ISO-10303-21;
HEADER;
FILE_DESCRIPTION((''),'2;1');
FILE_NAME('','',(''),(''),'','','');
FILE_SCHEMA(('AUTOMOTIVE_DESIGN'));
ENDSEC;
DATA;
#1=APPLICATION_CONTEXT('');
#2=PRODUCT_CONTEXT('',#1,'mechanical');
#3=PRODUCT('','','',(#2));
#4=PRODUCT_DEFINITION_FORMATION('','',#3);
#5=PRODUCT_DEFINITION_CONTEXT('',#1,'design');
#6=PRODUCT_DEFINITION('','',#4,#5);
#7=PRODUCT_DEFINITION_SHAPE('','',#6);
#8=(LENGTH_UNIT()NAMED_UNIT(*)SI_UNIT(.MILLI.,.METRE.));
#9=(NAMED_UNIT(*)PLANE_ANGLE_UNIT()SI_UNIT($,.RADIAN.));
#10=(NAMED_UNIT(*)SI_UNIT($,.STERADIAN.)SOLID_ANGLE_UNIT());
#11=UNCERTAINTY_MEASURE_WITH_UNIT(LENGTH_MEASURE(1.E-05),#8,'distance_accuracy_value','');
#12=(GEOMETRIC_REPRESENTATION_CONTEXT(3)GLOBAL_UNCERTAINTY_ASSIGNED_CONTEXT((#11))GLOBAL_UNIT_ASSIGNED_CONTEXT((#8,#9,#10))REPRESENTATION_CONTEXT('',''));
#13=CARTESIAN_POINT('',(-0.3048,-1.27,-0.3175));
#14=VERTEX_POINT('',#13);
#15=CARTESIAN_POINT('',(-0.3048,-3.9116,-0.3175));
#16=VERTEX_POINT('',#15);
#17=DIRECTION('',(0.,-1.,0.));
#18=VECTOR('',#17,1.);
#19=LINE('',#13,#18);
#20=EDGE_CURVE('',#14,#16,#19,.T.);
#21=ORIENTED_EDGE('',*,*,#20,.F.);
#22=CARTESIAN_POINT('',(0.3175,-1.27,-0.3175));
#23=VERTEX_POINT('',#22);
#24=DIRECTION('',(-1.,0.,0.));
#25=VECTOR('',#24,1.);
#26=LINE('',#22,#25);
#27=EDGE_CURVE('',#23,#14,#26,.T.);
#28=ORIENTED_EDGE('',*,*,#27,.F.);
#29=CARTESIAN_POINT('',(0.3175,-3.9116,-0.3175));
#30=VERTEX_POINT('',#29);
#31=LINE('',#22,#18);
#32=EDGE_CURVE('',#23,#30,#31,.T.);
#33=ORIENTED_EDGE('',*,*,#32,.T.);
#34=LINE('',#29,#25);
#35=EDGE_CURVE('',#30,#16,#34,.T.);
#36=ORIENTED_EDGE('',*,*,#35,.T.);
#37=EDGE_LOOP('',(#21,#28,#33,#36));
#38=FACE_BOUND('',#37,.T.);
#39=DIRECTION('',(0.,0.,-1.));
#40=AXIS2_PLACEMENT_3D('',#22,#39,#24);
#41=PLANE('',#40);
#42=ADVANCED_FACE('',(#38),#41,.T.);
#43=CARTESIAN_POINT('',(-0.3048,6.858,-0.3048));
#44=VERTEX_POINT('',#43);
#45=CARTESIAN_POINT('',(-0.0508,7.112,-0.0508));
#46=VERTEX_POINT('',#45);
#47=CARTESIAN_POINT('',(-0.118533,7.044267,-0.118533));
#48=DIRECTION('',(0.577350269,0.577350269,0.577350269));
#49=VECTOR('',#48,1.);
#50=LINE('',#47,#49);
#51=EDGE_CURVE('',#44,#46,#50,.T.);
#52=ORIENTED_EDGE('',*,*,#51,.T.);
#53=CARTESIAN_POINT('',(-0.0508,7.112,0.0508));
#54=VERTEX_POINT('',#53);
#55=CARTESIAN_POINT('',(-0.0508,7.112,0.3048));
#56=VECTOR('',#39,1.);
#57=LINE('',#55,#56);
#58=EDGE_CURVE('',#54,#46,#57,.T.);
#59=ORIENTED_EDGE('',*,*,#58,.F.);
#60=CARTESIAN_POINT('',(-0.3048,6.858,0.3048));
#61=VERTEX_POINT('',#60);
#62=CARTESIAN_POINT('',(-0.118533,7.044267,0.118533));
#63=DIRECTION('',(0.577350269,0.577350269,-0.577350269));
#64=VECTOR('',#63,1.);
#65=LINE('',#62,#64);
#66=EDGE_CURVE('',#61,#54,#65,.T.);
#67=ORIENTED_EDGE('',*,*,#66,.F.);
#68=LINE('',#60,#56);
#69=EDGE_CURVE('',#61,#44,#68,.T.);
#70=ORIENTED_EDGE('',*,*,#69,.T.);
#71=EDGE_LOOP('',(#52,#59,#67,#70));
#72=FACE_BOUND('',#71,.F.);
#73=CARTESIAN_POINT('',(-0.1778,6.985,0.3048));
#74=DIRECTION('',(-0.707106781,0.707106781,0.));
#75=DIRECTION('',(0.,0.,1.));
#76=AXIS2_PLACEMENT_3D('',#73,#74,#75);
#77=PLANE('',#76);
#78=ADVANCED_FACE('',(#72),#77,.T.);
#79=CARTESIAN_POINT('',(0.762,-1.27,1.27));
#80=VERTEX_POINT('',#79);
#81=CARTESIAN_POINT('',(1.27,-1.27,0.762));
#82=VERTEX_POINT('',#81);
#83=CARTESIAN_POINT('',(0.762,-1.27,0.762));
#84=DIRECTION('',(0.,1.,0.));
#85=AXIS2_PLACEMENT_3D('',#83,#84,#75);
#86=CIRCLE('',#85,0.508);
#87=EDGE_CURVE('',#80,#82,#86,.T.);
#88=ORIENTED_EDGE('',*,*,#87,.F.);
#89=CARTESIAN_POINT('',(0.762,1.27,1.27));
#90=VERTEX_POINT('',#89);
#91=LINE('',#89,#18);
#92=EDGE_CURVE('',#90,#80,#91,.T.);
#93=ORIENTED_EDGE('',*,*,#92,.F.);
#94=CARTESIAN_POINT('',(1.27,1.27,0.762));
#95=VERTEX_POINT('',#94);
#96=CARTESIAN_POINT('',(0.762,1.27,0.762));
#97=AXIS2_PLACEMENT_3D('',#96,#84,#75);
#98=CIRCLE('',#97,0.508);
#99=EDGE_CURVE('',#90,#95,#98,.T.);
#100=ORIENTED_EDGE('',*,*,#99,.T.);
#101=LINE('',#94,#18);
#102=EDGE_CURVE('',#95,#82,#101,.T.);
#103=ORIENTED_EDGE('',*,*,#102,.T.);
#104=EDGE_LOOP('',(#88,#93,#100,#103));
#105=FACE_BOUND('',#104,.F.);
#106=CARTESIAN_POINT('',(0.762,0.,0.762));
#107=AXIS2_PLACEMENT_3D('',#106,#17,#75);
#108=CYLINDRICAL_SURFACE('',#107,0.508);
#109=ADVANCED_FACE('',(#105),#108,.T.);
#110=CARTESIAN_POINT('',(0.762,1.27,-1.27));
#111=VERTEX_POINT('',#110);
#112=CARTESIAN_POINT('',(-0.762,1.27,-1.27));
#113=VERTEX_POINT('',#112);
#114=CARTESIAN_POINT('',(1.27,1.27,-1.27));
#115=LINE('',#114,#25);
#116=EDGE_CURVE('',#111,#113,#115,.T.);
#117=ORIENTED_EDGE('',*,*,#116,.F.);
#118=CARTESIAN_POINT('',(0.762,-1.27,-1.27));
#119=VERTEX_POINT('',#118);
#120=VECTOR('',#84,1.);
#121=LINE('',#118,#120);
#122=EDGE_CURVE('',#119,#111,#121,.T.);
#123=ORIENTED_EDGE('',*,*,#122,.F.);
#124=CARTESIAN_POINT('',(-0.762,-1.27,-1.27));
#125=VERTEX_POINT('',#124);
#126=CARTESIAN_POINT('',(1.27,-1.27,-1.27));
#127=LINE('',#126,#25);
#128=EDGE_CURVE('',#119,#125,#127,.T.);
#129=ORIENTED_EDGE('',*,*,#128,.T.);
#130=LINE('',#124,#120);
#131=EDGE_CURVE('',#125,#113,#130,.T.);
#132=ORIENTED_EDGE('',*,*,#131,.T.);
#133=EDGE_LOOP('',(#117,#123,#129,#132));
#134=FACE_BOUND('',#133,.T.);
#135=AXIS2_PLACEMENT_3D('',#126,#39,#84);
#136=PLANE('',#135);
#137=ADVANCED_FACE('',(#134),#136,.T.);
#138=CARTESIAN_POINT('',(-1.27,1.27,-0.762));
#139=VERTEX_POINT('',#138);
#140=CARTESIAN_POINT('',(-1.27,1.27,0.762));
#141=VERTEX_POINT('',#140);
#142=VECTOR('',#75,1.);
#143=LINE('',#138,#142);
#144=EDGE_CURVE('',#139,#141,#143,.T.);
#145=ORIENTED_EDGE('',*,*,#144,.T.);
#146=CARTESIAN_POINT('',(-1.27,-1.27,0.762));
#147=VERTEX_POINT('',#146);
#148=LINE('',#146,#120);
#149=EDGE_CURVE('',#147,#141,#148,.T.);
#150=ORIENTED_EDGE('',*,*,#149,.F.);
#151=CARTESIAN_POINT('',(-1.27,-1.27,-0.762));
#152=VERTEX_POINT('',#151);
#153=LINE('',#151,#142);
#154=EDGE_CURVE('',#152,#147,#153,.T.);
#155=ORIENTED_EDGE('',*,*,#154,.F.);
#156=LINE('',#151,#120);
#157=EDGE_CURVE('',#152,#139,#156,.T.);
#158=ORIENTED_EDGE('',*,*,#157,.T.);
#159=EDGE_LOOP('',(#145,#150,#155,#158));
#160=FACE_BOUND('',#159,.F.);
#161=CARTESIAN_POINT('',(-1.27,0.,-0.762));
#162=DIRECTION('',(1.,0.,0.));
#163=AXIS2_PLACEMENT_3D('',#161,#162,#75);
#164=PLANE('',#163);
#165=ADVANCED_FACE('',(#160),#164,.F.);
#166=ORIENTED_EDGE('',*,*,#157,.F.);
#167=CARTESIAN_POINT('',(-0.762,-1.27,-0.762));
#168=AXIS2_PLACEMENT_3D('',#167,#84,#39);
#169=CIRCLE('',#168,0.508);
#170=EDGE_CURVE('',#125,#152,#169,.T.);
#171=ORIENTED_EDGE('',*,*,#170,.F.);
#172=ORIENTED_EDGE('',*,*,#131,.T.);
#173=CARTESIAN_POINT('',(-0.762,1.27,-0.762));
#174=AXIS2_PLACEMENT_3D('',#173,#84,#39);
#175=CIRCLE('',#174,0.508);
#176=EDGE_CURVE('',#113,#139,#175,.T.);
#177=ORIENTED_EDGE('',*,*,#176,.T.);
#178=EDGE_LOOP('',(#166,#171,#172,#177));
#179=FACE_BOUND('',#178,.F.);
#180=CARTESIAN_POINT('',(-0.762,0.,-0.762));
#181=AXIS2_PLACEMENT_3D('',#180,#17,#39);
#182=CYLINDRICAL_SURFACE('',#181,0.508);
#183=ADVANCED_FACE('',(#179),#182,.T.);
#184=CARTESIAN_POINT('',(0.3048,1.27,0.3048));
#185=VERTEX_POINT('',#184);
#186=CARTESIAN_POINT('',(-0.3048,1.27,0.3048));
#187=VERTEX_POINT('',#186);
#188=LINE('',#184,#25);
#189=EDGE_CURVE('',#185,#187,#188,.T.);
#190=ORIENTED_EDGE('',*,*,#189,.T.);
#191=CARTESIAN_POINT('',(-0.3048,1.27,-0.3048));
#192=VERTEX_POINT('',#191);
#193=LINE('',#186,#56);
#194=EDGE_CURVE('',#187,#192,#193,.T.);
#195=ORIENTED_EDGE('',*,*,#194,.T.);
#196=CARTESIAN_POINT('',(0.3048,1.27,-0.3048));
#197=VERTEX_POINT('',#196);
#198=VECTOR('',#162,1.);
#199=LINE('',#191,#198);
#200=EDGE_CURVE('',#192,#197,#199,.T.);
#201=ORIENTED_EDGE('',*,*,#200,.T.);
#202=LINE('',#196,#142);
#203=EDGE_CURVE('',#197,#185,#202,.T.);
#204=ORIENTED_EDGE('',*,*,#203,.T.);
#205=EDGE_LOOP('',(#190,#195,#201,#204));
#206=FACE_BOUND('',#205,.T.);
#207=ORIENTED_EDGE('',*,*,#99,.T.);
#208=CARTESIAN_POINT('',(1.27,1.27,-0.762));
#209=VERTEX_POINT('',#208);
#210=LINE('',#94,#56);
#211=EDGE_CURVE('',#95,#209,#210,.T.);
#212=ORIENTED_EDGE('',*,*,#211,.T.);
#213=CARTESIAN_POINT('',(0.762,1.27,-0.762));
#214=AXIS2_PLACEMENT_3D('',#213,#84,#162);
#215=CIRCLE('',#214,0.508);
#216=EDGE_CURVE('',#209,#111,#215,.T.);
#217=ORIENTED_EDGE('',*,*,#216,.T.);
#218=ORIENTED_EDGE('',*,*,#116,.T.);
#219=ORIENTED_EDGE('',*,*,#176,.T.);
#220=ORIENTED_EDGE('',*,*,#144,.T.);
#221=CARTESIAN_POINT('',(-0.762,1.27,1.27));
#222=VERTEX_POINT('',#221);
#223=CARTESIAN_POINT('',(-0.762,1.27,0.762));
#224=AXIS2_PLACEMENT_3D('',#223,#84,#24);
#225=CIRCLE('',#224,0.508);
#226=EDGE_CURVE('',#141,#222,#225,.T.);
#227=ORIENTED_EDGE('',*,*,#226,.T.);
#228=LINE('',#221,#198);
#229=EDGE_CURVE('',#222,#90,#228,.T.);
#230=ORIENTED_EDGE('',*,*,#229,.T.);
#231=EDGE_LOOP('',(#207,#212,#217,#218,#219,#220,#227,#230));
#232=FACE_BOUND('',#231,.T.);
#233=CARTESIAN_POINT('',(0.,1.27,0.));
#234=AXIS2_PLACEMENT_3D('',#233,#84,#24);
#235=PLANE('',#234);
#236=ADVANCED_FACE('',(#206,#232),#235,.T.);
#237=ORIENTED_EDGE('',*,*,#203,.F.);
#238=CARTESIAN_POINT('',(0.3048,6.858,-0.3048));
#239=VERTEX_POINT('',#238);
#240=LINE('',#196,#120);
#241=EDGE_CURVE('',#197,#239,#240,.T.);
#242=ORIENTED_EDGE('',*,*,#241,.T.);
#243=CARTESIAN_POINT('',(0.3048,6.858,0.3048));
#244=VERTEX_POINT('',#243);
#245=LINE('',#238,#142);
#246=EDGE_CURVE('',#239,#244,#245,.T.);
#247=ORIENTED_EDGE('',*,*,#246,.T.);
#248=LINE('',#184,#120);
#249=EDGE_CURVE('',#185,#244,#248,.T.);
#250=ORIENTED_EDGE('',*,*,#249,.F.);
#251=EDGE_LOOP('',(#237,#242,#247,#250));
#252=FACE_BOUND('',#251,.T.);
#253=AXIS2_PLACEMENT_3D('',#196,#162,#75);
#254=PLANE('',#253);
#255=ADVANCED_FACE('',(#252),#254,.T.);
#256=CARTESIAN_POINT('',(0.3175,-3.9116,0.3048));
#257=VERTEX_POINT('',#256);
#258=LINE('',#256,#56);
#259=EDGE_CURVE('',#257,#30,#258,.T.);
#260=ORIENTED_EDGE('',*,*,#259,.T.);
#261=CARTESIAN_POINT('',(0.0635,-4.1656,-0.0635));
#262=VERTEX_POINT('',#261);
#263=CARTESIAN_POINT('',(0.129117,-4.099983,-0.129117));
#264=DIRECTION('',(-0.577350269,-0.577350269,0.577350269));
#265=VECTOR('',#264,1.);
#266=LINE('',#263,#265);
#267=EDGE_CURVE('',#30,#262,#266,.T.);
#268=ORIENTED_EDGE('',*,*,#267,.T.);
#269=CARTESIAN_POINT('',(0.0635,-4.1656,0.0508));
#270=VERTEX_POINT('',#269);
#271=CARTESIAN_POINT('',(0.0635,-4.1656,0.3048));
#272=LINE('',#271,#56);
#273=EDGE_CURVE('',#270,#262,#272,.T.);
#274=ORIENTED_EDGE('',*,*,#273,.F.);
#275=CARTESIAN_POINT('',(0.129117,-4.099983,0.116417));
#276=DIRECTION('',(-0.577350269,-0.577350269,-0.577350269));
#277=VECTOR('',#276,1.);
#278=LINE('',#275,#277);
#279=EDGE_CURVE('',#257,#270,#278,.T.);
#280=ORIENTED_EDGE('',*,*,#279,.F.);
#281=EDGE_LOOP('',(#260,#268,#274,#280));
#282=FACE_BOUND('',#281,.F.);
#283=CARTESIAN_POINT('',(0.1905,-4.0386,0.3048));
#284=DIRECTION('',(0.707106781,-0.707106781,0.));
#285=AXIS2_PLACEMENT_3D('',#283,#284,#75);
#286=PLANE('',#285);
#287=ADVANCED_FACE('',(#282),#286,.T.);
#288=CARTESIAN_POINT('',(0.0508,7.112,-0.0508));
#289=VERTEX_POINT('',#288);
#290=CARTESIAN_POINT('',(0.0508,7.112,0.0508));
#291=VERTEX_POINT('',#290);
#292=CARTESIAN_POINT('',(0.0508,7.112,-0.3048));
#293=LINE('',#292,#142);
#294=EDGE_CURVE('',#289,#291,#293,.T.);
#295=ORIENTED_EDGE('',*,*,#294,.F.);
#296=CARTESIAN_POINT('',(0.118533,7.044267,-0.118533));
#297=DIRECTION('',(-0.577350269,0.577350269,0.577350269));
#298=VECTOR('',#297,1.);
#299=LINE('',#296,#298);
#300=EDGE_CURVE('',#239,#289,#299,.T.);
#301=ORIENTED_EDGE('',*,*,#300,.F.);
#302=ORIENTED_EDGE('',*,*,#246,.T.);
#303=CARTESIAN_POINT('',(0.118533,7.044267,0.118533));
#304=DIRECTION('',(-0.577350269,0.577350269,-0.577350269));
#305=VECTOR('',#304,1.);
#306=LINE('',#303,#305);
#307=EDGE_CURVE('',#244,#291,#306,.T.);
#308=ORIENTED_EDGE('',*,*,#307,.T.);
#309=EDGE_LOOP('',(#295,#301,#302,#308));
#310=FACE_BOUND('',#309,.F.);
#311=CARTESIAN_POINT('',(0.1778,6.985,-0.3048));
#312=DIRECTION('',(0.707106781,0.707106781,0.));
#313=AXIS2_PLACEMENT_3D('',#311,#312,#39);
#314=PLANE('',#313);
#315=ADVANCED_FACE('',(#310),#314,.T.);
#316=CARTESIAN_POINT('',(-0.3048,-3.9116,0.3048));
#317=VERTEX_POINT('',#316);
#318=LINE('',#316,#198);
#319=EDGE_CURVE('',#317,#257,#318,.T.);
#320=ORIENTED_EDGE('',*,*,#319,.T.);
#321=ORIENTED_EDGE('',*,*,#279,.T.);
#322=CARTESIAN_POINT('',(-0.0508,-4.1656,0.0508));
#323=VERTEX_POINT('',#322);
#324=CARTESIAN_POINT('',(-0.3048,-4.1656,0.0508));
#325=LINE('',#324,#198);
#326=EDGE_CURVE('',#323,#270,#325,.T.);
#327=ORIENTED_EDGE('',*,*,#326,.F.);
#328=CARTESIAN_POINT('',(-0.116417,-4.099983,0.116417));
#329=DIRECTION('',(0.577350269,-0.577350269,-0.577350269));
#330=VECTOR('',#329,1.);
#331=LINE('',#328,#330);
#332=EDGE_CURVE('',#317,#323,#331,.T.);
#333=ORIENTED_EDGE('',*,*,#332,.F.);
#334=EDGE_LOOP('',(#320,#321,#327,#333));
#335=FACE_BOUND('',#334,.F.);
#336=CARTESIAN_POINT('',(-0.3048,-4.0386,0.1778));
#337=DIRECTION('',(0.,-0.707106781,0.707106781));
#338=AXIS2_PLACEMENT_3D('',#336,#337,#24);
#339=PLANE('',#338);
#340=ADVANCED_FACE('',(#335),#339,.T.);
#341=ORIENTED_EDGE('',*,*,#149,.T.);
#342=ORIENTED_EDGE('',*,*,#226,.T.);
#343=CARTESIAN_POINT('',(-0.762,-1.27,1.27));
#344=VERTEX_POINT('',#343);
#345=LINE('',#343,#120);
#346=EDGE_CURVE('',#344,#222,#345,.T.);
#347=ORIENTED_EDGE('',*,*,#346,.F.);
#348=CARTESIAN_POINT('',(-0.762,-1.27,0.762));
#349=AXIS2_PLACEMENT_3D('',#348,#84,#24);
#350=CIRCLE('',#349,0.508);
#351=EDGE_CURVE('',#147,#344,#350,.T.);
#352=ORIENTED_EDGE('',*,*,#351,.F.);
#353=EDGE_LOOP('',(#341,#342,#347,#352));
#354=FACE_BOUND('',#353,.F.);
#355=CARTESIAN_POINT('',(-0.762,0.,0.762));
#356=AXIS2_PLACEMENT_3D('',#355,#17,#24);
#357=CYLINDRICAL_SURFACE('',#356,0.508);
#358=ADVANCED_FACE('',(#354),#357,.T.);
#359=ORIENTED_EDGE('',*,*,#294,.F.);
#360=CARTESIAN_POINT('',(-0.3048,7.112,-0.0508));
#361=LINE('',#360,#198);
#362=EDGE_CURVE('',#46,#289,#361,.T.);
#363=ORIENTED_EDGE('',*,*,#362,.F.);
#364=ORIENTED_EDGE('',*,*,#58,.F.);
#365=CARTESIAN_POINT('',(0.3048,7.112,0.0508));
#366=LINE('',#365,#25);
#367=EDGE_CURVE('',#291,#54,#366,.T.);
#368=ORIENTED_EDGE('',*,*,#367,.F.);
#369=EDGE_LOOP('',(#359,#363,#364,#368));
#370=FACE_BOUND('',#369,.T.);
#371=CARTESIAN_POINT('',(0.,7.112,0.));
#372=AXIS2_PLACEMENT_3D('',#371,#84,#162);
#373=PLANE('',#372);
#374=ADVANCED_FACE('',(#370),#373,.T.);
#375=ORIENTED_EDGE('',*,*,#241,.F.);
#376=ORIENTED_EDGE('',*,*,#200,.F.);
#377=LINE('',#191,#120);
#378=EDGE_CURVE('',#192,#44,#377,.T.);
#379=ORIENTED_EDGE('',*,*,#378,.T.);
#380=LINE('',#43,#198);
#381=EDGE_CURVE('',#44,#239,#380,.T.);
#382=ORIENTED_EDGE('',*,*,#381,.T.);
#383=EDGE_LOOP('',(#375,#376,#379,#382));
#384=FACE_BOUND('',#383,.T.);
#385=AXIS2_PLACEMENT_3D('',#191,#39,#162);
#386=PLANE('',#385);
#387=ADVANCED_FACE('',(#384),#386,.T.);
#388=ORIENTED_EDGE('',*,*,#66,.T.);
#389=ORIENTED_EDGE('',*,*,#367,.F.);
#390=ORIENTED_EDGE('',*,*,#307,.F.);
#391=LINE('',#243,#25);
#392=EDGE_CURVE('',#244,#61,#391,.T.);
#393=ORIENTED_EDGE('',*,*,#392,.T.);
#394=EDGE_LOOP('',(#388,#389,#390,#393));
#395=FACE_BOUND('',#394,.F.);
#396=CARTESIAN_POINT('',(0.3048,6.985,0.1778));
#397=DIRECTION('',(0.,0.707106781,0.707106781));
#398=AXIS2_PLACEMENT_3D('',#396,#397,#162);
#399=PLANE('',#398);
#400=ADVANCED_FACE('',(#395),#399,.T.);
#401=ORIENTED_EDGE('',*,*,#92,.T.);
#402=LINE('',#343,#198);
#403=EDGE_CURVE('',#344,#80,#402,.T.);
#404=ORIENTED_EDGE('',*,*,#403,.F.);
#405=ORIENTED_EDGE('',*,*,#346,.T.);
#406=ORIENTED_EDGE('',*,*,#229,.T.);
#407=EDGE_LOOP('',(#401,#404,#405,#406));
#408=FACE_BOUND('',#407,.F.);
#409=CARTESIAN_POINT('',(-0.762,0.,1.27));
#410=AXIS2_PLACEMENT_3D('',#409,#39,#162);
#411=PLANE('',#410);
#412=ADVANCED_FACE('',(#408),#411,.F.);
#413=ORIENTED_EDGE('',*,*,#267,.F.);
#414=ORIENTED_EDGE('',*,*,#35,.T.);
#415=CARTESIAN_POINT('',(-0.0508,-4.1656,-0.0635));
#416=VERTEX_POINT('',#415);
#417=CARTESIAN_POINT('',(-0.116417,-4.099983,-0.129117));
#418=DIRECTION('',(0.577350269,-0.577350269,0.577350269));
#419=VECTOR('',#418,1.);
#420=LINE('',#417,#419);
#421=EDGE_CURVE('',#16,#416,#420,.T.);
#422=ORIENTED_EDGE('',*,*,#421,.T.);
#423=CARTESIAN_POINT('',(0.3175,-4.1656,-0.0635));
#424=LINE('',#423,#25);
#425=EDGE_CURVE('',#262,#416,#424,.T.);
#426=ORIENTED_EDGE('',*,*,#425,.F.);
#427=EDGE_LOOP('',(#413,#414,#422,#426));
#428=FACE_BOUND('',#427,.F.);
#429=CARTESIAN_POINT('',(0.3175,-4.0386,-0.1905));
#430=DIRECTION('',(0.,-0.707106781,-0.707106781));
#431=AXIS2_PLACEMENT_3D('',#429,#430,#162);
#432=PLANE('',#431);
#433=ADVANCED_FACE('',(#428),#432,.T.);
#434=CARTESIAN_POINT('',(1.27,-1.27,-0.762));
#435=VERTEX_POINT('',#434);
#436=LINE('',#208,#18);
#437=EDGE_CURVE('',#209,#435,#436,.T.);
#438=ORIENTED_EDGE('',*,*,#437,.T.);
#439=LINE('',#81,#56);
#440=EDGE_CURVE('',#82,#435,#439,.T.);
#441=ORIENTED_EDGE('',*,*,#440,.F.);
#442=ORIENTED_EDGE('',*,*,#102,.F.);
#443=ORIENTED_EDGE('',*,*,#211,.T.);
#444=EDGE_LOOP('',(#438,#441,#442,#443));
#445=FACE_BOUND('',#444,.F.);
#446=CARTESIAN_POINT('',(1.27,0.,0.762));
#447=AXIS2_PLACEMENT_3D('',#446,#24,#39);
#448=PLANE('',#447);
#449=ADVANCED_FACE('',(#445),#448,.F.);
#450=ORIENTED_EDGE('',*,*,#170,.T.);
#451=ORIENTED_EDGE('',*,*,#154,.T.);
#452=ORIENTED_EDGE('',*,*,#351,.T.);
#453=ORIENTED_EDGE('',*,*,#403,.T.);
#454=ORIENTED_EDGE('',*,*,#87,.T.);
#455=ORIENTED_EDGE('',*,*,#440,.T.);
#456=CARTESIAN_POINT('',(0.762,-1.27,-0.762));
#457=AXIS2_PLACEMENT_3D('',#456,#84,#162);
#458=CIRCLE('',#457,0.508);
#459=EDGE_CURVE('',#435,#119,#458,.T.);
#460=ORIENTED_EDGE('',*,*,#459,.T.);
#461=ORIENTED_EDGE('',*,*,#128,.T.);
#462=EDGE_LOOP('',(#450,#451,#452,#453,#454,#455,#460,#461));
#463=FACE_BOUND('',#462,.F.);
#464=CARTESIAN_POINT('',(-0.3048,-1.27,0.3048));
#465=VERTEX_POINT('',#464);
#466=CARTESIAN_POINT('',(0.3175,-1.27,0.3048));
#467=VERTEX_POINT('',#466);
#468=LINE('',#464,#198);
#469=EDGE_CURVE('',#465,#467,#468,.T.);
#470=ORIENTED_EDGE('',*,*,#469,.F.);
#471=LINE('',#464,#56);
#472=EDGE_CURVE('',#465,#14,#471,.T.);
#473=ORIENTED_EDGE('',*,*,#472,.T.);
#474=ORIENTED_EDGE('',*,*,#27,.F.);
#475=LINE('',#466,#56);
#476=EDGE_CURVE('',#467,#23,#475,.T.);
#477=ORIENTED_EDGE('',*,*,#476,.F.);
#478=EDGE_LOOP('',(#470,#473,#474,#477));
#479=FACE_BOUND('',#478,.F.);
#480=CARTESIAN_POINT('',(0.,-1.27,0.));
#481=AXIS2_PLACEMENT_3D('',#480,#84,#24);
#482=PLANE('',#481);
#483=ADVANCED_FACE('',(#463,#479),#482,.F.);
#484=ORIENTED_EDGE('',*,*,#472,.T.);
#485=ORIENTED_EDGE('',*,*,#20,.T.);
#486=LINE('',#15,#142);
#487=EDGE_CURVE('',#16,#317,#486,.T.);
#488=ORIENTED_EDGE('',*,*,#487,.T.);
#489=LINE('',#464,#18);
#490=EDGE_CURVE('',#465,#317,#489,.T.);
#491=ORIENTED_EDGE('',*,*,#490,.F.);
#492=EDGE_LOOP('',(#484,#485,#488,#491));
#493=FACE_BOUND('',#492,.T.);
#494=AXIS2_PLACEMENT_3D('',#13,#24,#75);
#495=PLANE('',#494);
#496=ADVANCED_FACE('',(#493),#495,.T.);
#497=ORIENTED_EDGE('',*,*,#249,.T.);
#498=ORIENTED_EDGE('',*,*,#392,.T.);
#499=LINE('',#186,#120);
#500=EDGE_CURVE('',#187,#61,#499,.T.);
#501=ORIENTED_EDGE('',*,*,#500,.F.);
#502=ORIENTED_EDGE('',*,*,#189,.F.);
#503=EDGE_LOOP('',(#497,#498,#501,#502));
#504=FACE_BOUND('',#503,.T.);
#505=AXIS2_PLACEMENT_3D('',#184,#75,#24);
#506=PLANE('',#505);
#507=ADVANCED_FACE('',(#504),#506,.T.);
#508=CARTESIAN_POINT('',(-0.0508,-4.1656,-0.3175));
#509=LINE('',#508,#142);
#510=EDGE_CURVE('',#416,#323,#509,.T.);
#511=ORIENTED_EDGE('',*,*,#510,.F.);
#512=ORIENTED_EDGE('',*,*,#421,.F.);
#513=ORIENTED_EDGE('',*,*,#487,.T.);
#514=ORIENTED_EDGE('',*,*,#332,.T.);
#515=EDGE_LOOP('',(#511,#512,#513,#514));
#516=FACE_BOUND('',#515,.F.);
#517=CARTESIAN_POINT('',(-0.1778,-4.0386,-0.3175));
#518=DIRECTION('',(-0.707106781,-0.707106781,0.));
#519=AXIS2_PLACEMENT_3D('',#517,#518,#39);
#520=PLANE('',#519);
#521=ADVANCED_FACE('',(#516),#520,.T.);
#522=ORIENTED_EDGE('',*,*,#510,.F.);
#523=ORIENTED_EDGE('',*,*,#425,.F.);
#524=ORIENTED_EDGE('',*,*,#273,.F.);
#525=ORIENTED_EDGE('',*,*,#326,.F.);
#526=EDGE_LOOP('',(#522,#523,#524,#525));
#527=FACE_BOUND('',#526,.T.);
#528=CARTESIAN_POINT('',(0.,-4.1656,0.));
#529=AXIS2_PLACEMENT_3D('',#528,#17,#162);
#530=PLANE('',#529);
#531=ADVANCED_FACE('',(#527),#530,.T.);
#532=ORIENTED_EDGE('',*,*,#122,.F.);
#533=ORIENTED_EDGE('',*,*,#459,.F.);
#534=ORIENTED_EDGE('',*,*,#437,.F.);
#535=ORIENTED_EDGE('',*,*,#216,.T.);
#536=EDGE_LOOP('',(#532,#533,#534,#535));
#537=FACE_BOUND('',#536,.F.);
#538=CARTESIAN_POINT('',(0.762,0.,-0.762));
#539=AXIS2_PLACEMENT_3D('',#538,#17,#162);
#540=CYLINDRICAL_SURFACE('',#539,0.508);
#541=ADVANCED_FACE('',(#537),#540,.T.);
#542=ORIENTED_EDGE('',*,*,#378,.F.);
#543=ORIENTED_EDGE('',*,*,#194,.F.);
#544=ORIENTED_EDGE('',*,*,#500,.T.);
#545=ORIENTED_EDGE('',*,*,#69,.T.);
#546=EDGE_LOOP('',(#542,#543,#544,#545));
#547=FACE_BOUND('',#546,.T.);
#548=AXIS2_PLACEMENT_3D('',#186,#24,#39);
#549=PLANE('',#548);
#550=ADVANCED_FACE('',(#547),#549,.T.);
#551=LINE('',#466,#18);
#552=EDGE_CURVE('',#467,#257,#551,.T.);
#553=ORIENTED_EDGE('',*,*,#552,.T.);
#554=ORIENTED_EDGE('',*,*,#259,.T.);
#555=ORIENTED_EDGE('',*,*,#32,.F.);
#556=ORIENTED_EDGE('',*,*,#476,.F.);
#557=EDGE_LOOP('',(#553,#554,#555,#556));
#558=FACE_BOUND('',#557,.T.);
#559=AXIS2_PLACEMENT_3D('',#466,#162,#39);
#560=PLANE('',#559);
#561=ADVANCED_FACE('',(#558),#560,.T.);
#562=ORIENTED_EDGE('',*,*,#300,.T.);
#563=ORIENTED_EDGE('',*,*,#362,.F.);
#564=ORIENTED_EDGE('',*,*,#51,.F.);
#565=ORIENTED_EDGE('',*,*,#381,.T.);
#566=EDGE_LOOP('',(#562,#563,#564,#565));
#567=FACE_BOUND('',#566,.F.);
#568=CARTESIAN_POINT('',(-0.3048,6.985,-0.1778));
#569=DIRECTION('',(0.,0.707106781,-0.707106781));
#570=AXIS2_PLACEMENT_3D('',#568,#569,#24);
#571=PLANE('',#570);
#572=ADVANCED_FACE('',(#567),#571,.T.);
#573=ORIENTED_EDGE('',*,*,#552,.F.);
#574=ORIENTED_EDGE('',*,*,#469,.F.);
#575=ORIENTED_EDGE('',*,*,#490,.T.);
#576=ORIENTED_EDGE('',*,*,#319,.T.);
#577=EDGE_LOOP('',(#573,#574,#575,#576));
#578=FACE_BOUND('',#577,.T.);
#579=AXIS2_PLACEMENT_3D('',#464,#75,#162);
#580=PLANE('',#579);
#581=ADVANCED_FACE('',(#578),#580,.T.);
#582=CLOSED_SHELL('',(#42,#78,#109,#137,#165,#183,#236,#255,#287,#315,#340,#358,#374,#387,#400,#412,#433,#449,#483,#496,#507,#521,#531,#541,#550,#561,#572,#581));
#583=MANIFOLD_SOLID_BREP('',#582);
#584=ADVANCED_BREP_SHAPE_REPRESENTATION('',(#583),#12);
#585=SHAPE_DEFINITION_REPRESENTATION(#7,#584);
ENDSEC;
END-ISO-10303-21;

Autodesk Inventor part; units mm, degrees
ref_plane "YZ Plane" through (0, 0, 0) normal (1, 0, 0) x (0, 1, 0)
ref_plane "XZ Plane" through (0, 0, 0) normal (0, 1, 0) x (-1, 0, 0)
ref_plane "XY Plane" through (0, 0, 0) normal (0, 0, 1) x (1, 0, 0)
sketch "Sketch1" plane through (0, 0, 0) normal (0, 1, 0) x (-1, 0, 0)
  line L0 (-0.762, -1.27) -> (0.762, -1.27)
  line L1 (1.27, -0.762) -> (1.27, 0.762)
  line L2 (0.762, 1.27) -> (-0.762, 1.27)
  line L3 (-1.27, 0.762) -> (-1.27, -0.762)
  line L4 (-1.27, -1.27) -> (1.27, 1.27) construction
  line L5 (1.27, -1.27) -> (-1.27, 1.27) construction
  arc A0 (1.27, 0.762) -> (0.762, 1.27) centre (0.762, 0.762) ccw
  arc A1 (0.762, -1.27) -> (1.27, -0.762) centre (0.762, -0.762) ccw
  arc A2 (-1.27, -0.762) -> (-0.762, -1.27) centre (-0.762, -0.762) ccw
  arc A3 (-0.762, 1.27) -> (-1.27, 0.762) centre (-0.762, 0.762) ccw
  line L6 (-0.762, -3.81) -> (0.762, -3.81)
  line L7 (1.27, -3.302) -> (1.27, -1.778)
  line L8 (0.762, -1.27) -> (-0.762, -1.27)
  line L9 (-1.27, -1.778) -> (-1.27, -3.302)
  line L10 (-1.27, -3.81) -> (1.27, -1.27) construction
  line L11 (1.27, -3.81) -> (-1.27, -1.27) construction
  arc A4 (1.27, -1.778) -> (0.762, -1.27) centre (0.762, -1.778) ccw
  arc A5 (0.762, -3.81) -> (1.27, -3.302) centre (0.762, -3.302) ccw
  arc A6 (-1.27, -3.302) -> (-0.762, -3.81) centre (-0.762, -3.302) ccw
  arc A7 (-0.762, -1.27) -> (-1.27, -1.778) centre (-0.762, -1.778) ccw
  line L12 (-0.762, -6.35) -> (0.762, -6.35)
  line L13 (1.27, -5.842) -> (1.27, -4.318)
  line L14 (0.762, -3.81) -> (-0.762, -3.81)
  line L15 (-1.27, -4.318) -> (-1.27, -5.842)
  line L16 (-1.27, -6.35) -> (1.27, -3.81) construction
  line L17 (1.27, -6.35) -> (-1.27, -3.81) construction
  arc A8 (1.27, -4.318) -> (0.762, -3.81) centre (0.762, -4.318) ccw
  arc A9 (0.762, -6.35) -> (1.27, -5.842) centre (0.762, -5.842) ccw
  arc A10 (-1.27, -5.842) -> (-0.762, -6.35) centre (-0.762, -5.842) ccw
  arc A11 (-0.762, -3.81) -> (-1.27, -4.318) centre (-0.762, -4.318) ccw
  line L18 (-0.762, -8.89) -> (0.762, -8.89)
  line L19 (1.27, -8.382) -> (1.27, -6.858)
  line L20 (0.762, -6.35) -> (-0.762, -6.35)
  line L21 (-1.27, -6.858) -> (-1.27, -8.382)
  line L22 (-1.27, -8.89) -> (1.27, -6.35) construction
  line L23 (1.27, -8.89) -> (-1.27, -6.35) construction
  arc A12 (1.27, -6.858) -> (0.762, -6.35) centre (0.762, -6.858) ccw
  arc A13 (0.762, -8.89) -> (1.27, -8.382) centre (0.762, -8.382) ccw
  arc A14 (-1.27, -8.382) -> (-0.762, -8.89) centre (-0.762, -8.382) ccw
  arc A15 (-0.762, -6.35) -> (-1.27, -6.858) centre (-0.762, -6.858) ccw
  line L24 (-0.762, -11.43) -> (0.762, -11.43)
  line L25 (1.27, -10.922) -> (1.27, -9.398)
  line L26 (0.762, -8.89) -> (-0.762, -8.89)
  line L27 (-1.27, -9.398) -> (-1.27, -10.922)
  line L28 (-1.27, -11.43) -> (1.27, -8.89) construction
  line L29 (1.27, -11.43) -> (-1.27, -8.89) construction
  arc A16 (1.27, -9.398) -> (0.762, -8.89) centre (0.762, -9.398) ccw
  arc A17 (0.762, -11.43) -> (1.27, -10.922) centre (0.762, -10.922) ccw
  arc A18 (-1.27, -10.922) -> (-0.762, -11.43) centre (-0.762, -10.922) ccw
  arc A19 (-0.762, -8.89) -> (-1.27, -9.398) centre (-0.762, -9.398) ccw
  line L30 (-0.762, -13.97) -> (0.762, -13.97)
  line L31 (1.27, -13.462) -> (1.27, -11.938)
  line L32 (0.762, -11.43) -> (-0.762, -11.43)
  line L33 (-1.27, -11.938) -> (-1.27, -13.462)
  line L34 (-1.27, -13.97) -> (1.27, -11.43) construction
  line L35 (1.27, -13.97) -> (-1.27, -11.43) construction
  arc A20 (1.27, -11.938) -> (0.762, -11.43) centre (0.762, -11.938) ccw
  arc A21 (0.762, -13.97) -> (1.27, -13.462) centre (0.762, -13.462) ccw
  arc A22 (-1.27, -13.462) -> (-0.762, -13.97) centre (-0.762, -13.462) ccw
  arc A23 (-0.762, -11.43) -> (-1.27, -11.938) centre (-0.762, -11.938) ccw
  line L36 (-0.762, -16.51) -> (0.762, -16.51)
  line L37 (1.27, -16.002) -> (1.27, -14.478)
  line L38 (0.762, -13.97) -> (-0.762, -13.97)
  line L39 (-1.27, -14.478) -> (-1.27, -16.002)
  line L40 (-1.27, -16.51) -> (1.27, -13.97) construction
  line L41 (1.27, -16.51) -> (-1.27, -13.97) construction
  arc A24 (1.27, -14.478) -> (0.762, -13.97) centre (0.762, -14.478) ccw
  arc A25 (0.762, -16.51) -> (1.27, -16.002) centre (0.762, -16.002) ccw
  arc A26 (-1.27, -16.002) -> (-0.762, -16.51) centre (-0.762, -16.002) ccw
  arc A27 (-0.762, -13.97) -> (-1.27, -14.478) centre (-0.762, -14.478) ccw
  line L42 (-0.762, -19.05) -> (0.762, -19.05)
  line L43 (1.27, -18.542) -> (1.27, -17.018)
  line L44 (0.762, -16.51) -> (-0.762, -16.51)
  line L45 (-1.27, -17.018) -> (-1.27, -18.542)
  line L46 (-1.27, -19.05) -> (1.27, -16.51) construction
  line L47 (1.27, -19.05) -> (-1.27, -16.51) construction
  arc A28 (1.27, -17.018) -> (0.762, -16.51) centre (0.762, -17.018) ccw
  arc A29 (0.762, -19.05) -> (1.27, -18.542) centre (0.762, -18.542) ccw
  arc A30 (-1.27, -18.542) -> (-0.762, -19.05) centre (-0.762, -18.542) ccw
  arc A31 (-0.762, -16.51) -> (-1.27, -17.018) centre (-0.762, -17.018) ccw
  line L48 (-0.762, -21.59) -> (0.762, -21.59)
  line L49 (1.27, -21.082) -> (1.27, -19.558)
  line L50 (0.762, -19.05) -> (-0.762, -19.05)
  line L51 (-1.27, -19.558) -> (-1.27, -21.082)
  line L52 (-1.27, -21.59) -> (1.27, -19.05) construction
  line L53 (1.27, -21.59) -> (-1.27, -19.05) construction
  arc A32 (1.27, -19.558) -> (0.762, -19.05) centre (0.762, -19.558) ccw
  arc A33 (0.762, -21.59) -> (1.27, -21.082) centre (0.762, -21.082) ccw
  arc A34 (-1.27, -21.082) -> (-0.762, -21.59) centre (-0.762, -21.082) ccw
  arc A35 (-0.762, -19.05) -> (-1.27, -19.558) centre (-0.762, -19.558) ccw
  line L54 (-0.762, -24.13) -> (0.762, -24.13)
  line L55 (1.27, -23.622) -> (1.27, -22.098)
  line L56 (0.762, -21.59) -> (-0.762, -21.59)
  line L57 (-1.27, -22.098) -> (-1.27, -23.622)
  line L58 (-1.27, -24.13) -> (1.27, -21.59) construction
  line L59 (1.27, -24.13) -> (-1.27, -21.59) construction
  arc A36 (1.27, -22.098) -> (0.762, -21.59) centre (0.762, -22.098) ccw
  arc A37 (0.762, -24.13) -> (1.27, -23.622) centre (0.762, -23.622) ccw
  arc A38 (-1.27, -23.622) -> (-0.762, -24.13) centre (-0.762, -23.622) ccw
  arc A39 (-0.762, -21.59) -> (-1.27, -22.098) centre (-0.762, -22.098) ccw
  line L60 (-0.762, -26.67) -> (0.762, -26.67)
  line L61 (1.27, -26.162) -> (1.27, -24.638)
  line L62 (0.762, -24.13) -> (-0.762, -24.13)
  line L63 (-1.27, -24.638) -> (-1.27, -26.162)
  line L64 (-1.27, -26.67) -> (1.27, -24.13) construction
  line L65 (1.27, -26.67) -> (-1.27, -24.13) construction
  arc A40 (1.27, -24.638) -> (0.762, -24.13) centre (0.762, -24.638) ccw
  arc A41 (0.762, -26.67) -> (1.27, -26.162) centre (0.762, -26.162) ccw
  arc A42 (-1.27, -26.162) -> (-0.762, -26.67) centre (-0.762, -26.162) ccw
  arc A43 (-0.762, -24.13) -> (-1.27, -24.638) centre (-0.762, -24.638) ccw
  line L66 (-0.762, -29.21) -> (0.762, -29.21)
  line L67 (1.27, -28.702) -> (1.27, -27.178)
  line L68 (0.762, -26.67) -> (-0.762, -26.67)
  line L69 (-1.27, -27.178) -> (-1.27, -28.702)
  line L70 (-1.27, -29.21) -> (1.27, -26.67) construction
  line L71 (1.27, -29.21) -> (-1.27, -26.67) construction
  arc A44 (1.27, -27.178) -> (0.762, -26.67) centre (0.762, -27.178) ccw
  arc A45 (0.762, -29.21) -> (1.27, -28.702) centre (0.762, -28.702) ccw
  arc A46 (-1.27, -28.702) -> (-0.762, -29.21) centre (-0.762, -28.702) ccw
  arc A47 (-0.762, -26.67) -> (-1.27, -27.178) centre (-0.762, -27.178) ccw
  line L72 (-0.762, -31.75) -> (0.762, -31.75)
  line L73 (1.27, -31.242) -> (1.27, -29.718)
  line L74 (0.762, -29.21) -> (-0.762, -29.21)
  line L75 (-1.27, -29.718) -> (-1.27, -31.242)
  line L76 (-1.27, -31.75) -> (1.27, -29.21) construction
  line L77 (1.27, -31.75) -> (-1.27, -29.21) construction
  arc A48 (1.27, -29.718) -> (0.762, -29.21) centre (0.762, -29.718) ccw
  arc A49 (0.762, -31.75) -> (1.27, -31.242) centre (0.762, -31.242) ccw
  arc A50 (-1.27, -31.242) -> (-0.762, -31.75) centre (-0.762, -31.242) ccw
  arc A51 (-0.762, -29.21) -> (-1.27, -29.718) centre (-0.762, -29.718) ccw
  line L78 (-0.762, -34.29) -> (0.762, -34.29)
  line L79 (1.27, -33.782) -> (1.27, -32.258)
  line L80 (0.762, -31.75) -> (-0.762, -31.75)
  line L81 (-1.27, -32.258) -> (-1.27, -33.782)
  line L82 (-1.27, -34.29) -> (1.27, -31.75) construction
  line L83 (1.27, -34.29) -> (-1.27, -31.75) construction
  arc A52 (1.27, -32.258) -> (0.762, -31.75) centre (0.762, -32.258) ccw
  arc A53 (0.762, -34.29) -> (1.27, -33.782) centre (0.762, -33.782) ccw
  arc A54 (-1.27, -33.782) -> (-0.762, -34.29) centre (-0.762, -33.782) ccw
  arc A55 (-0.762, -31.75) -> (-1.27, -32.258) centre (-0.762, -32.258) ccw
  line L84 (-0.762, -36.83) -> (0.762, -36.83)
  line L85 (1.27, -36.322) -> (1.27, -34.798)
  line L86 (0.762, -34.29) -> (-0.762, -34.29)
  line L87 (-1.27, -34.798) -> (-1.27, -36.322)
  line L88 (-1.27, -36.83) -> (1.27, -34.29) construction
  line L89 (1.27, -36.83) -> (-1.27, -34.29) construction
  arc A56 (1.27, -34.798) -> (0.762, -34.29) centre (0.762, -34.798) ccw
  arc A57 (0.762, -36.83) -> (1.27, -36.322) centre (0.762, -36.322) ccw
  arc A58 (-1.27, -36.322) -> (-0.762, -36.83) centre (-0.762, -36.322) ccw
  arc A59 (-0.762, -34.29) -> (-1.27, -34.798) centre (-0.762, -34.798) ccw
  line L90 (-0.762, -39.37) -> (0.762, -39.37)
  line L91 (1.27, -38.862) -> (1.27, -37.338)
  line L92 (0.762, -36.83) -> (-0.762, -36.83)
  line L93 (-1.27, -37.338) -> (-1.27, -38.862)
  line L94 (-1.27, -39.37) -> (1.27, -36.83) construction
  line L95 (1.27, -39.37) -> (-1.27, -36.83) construction
  arc A60 (1.27, -37.338) -> (0.762, -36.83) centre (0.762, -37.338) ccw
  arc A61 (0.762, -39.37) -> (1.27, -38.862) centre (0.762, -38.862) ccw
  arc A62 (-1.27, -38.862) -> (-0.762, -39.37) centre (-0.762, -38.862) ccw
  arc A63 (-0.762, -36.83) -> (-1.27, -37.338) centre (-0.762, -37.338) ccw
  point P0 (0, 0)
  point P1 (0, -2.54)
  point P2 (0, -5.08)
  point P3 (0, -7.62)
  point P4 (0, -10.16)
  point P5 (0, -12.7)
  point P6 (0, -15.24)
  point P7 (0, -17.78)
  point P8 (0, -20.32)
  point P9 (0, -22.86)
  point P10 (0, -25.4)
  point P11 (0, -27.94)
  point P12 (0, -30.48)
  point P13 (0, -33.02)
  point P14 (0, -35.56)
  point P15 (0, -38.1)
  dimension "d0" = 2.54
  dimension "d1" = 0.508
  dimension "d4" = 2.54
extrude "Extrusion1" add sketch "Sketch1" along normal mid plane 2.54
sketch "Sketch2" plane through (0, 1.27, 0) normal (0, 1, 0) x (1, 0, 0)
  line L0 (-0.3048, 0.3048) -> (0.3048, 0.3048)
  line L1 (0.3048, 0.3048) -> (0.3048, -0.3048)
  line L2 (0.3048, -0.3048) -> (-0.3048, -0.3048)
  line L3 (-0.3048, -0.3048) -> (-0.3048, 0.3048)
  line L4 (-0.3048, 0.3048) -> (0.3048, -0.3048) construction
  line L5 (0.3048, 0.3048) -> (-0.3048, -0.3048) construction
  line L6 (-1.27, 0.762) -> (-1.27, -0.762) projected
  line L7 (-0.3048, 2.8448) -> (0.3048, 2.8448)
  line L8 (0.3048, 2.8448) -> (0.3048, 2.2352)
  line L9 (0.3048, 2.2352) -> (-0.3048, 2.2352)
  line L10 (-0.3048, 2.2352) -> (-0.3048, 2.8448)
  line L11 (-0.3048, 2.8448) -> (0.3048, 2.2352) construction
  line L12 (0.3048, 2.8448) -> (-0.3048, 2.2352) construction
  line L13 (-0.3048, 5.3848) -> (0.3048, 5.3848)
  line L14 (0.3048, 5.3848) -> (0.3048, 4.7752)
  line L15 (0.3048, 4.7752) -> (-0.3048, 4.7752)
  line L16 (-0.3048, 4.7752) -> (-0.3048, 5.3848)
  line L17 (-0.3048, 5.3848) -> (0.3048, 4.7752) construction
  line L18 (0.3048, 5.3848) -> (-0.3048, 4.7752) construction
  line L19 (-0.3048, 7.9248) -> (0.3048, 7.9248)
  line L20 (0.3048, 7.9248) -> (0.3048, 7.3152)
  line L21 (0.3048, 7.3152) -> (-0.3048, 7.3152)
  line L22 (-0.3048, 7.3152) -> (-0.3048, 7.9248)
  line L23 (-0.3048, 7.9248) -> (0.3048, 7.3152) construction
  line L24 (0.3048, 7.9248) -> (-0.3048, 7.3152) construction
  line L25 (-0.3048, 10.4648) -> (0.3048, 10.4648)
  line L26 (0.3048, 10.4648) -> (0.3048, 9.8552)
  line L27 (0.3048, 9.8552) -> (-0.3048, 9.8552)
  line L28 (-0.3048, 9.8552) -> (-0.3048, 10.4648)
  line L29 (-0.3048, 10.4648) -> (0.3048, 9.8552) construction
  line L30 (0.3048, 10.4648) -> (-0.3048, 9.8552) construction
  line L31 (-0.3048, 13.0048) -> (0.3048, 13.0048)
  line L32 (0.3048, 13.0048) -> (0.3048, 12.3952)
  line L33 (0.3048, 12.3952) -> (-0.3048, 12.3952)
  line L34 (-0.3048, 12.3952) -> (-0.3048, 13.0048)
  line L35 (-0.3048, 13.0048) -> (0.3048, 12.3952) construction
  line L36 (0.3048, 13.0048) -> (-0.3048, 12.3952) construction
  line L37 (-0.3048, 15.5448) -> (0.3048, 15.5448)
  line L38 (0.3048, 15.5448) -> (0.3048, 14.9352)
  line L39 (0.3048, 14.9352) -> (-0.3048, 14.9352)
  line L40 (-0.3048, 14.9352) -> (-0.3048, 15.5448)
  line L41 (-0.3048, 15.5448) -> (0.3048, 14.9352) construction
  line L42 (0.3048, 15.5448) -> (-0.3048, 14.9352) construction
  line L43 (-0.3048, 18.0848) -> (0.3048, 18.0848)
  line L44 (0.3048, 18.0848) -> (0.3048, 17.4752)
  line L45 (0.3048, 17.4752) -> (-0.3048, 17.4752)
  line L46 (-0.3048, 17.4752) -> (-0.3048, 18.0848)
  line L47 (-0.3048, 18.0848) -> (0.3048, 17.4752) construction
  line L48 (0.3048, 18.0848) -> (-0.3048, 17.4752) construction
  line L49 (-0.3048, 20.6248) -> (0.3048, 20.6248)
  line L50 (0.3048, 20.6248) -> (0.3048, 20.0152)
  line L51 (0.3048, 20.0152) -> (-0.3048, 20.0152)
  line L52 (-0.3048, 20.0152) -> (-0.3048, 20.6248)
  line L53 (-0.3048, 20.6248) -> (0.3048, 20.0152) construction
  line L54 (0.3048, 20.6248) -> (-0.3048, 20.0152) construction
  line L55 (-0.3048, 23.1648) -> (0.3048, 23.1648)
  line L56 (0.3048, 23.1648) -> (0.3048, 22.5552)
  line L57 (0.3048, 22.5552) -> (-0.3048, 22.5552)
  line L58 (-0.3048, 22.5552) -> (-0.3048, 23.1648)
  line L59 (-0.3048, 23.1648) -> (0.3048, 22.5552) construction
  line L60 (0.3048, 23.1648) -> (-0.3048, 22.5552) construction
  line L61 (-0.3048, 25.7048) -> (0.3048, 25.7048)
  line L62 (0.3048, 25.7048) -> (0.3048, 25.0952)
  line L63 (0.3048, 25.0952) -> (-0.3048, 25.0952)
  line L64 (-0.3048, 25.0952) -> (-0.3048, 25.7048)
  line L65 (-0.3048, 25.7048) -> (0.3048, 25.0952) construction
  line L66 (0.3048, 25.7048) -> (-0.3048, 25.0952) construction
  line L67 (-0.3048, 28.2448) -> (0.3048, 28.2448)
  line L68 (0.3048, 28.2448) -> (0.3048, 27.6352)
  line L69 (0.3048, 27.6352) -> (-0.3048, 27.6352)
  line L70 (-0.3048, 27.6352) -> (-0.3048, 28.2448)
  line L71 (-0.3048, 28.2448) -> (0.3048, 27.6352) construction
  line L72 (0.3048, 28.2448) -> (-0.3048, 27.6352) construction
  line L73 (-0.3048, 30.7848) -> (0.3048, 30.7848)
  line L74 (0.3048, 30.7848) -> (0.3048, 30.1752)
  line L75 (0.3048, 30.1752) -> (-0.3048, 30.1752)
  line L76 (-0.3048, 30.1752) -> (-0.3048, 30.7848)
  line L77 (-0.3048, 30.7848) -> (0.3048, 30.1752) construction
  line L78 (0.3048, 30.7848) -> (-0.3048, 30.1752) construction
  line L79 (-0.3048, 33.3248) -> (0.3048, 33.3248)
  line L80 (0.3048, 33.3248) -> (0.3048, 32.7152)
  line L81 (0.3048, 32.7152) -> (-0.3048, 32.7152)
  line L82 (-0.3048, 32.7152) -> (-0.3048, 33.3248)
  line L83 (-0.3048, 33.3248) -> (0.3048, 32.7152) construction
  line L84 (0.3048, 33.3248) -> (-0.3048, 32.7152) construction
  line L85 (-0.3048, 35.8648) -> (0.3048, 35.8648)
  line L86 (0.3048, 35.8648) -> (0.3048, 35.2552)
  line L87 (0.3048, 35.2552) -> (-0.3048, 35.2552)
  line L88 (-0.3048, 35.2552) -> (-0.3048, 35.8648)
  line L89 (-0.3048, 35.8648) -> (0.3048, 35.2552) construction
  line L90 (0.3048, 35.8648) -> (-0.3048, 35.2552) construction
  line L91 (-0.3048, 38.4048) -> (0.3048, 38.4048)
  line L92 (0.3048, 38.4048) -> (0.3048, 37.7952)
  line L93 (0.3048, 37.7952) -> (-0.3048, 37.7952)
  line L94 (-0.3048, 37.7952) -> (-0.3048, 38.4048)
  line L95 (-0.3048, 38.4048) -> (0.3048, 37.7952) construction
  line L96 (0.3048, 38.4048) -> (-0.3048, 37.7952) construction
  point P0 (0, 0)
  dimension "d11" = 0.6096
  dimension "d14" = 2.54
extrude "Extrusion2" add sketch "Sketch2" along normal blind 5.842
chamfer "Chamfer2" distance 0.254 angle 45 64 edges at (0, 7.112, -20.6248) (-0.3048, 7.112, -20.32) (0.3048, 7.112, -20.32) (0, 7.112, -20.0152) (0, 7.112, -18.0848) (-0.3048, 7.112, -17.78) (0, 7.112, -17.4752) (0.3048, 7.112, -17.78) (0, 7.112, -15.5448) (-0.3048, 7.112, -15.24) (0.3048, 7.112, -15.24) (0, 7.112, -13.0048) (-0.3048, 7.112, -12.7) (0, 7.112, -12.3952) (0.3048, 7.112, -12.7) (0, 7.112, -14.9352) (-0.3048, 7.112, -7.62) (0, 7.112, -7.3152) (0.3048, 7.112, -7.62) (0, 7.112, -9.8552) (0, 7.112, -10.4648) (-0.3048, 7.112, -10.16) (0.3048, 7.112, -10.16) (0, 7.112, -7.9248) (0, 7.112, -2.8448) (-0.3048, 7.112, -2.54) (0, 7.112, -2.2352) (0.3048, 7.112, -2.54) (0, 7.112, -4.7752) (0.3048, 7.112, -5.08) (0, 7.112, -5.3848) (-0.3048, 7.112, -5.08) (0, 7.112, -0.3048) (-0.3048, 7.112, 0) (0, 7.112, 0.3048) (0.3048, 7.112, 0) (0, 7.112, -23.1648) (-0.3048, 7.112, -22.86) (0, 7.112, -22.5552) (0.3048, 7.112, -22.86) (0, 7.112, -25.0952) (-0.3048, 7.112, -25.4) (0, 7.112, -25.7048) (0.3048, 7.112, -25.4) (0, 7.112, -28.2448) (0, 7.112, -27.6352) (0.3048, 7.112, -27.94) (-0.3048, 7.112, -27.94) (0.3048, 7.112, -30.48) (0, 7.112, -38.4048) (-0.3048, 7.112, -38.1) (0, 7.112, -37.7952) (0.3048, 7.112, -38.1) (0, 7.112, -35.8648) (-0.3048, 7.112, -35.56) (0, 7.112, -35.2552) (0.3048, 7.112, -35.56) (0, 7.112, -33.3248) (-0.3048, 7.112, -33.02) (0, 7.112, -32.7152) (0, 7.112, -30.1752) (0, 7.112, -30.7848) (-0.3048, 7.112, -30.48) (0.3048, 7.112, -33.02)
sketch "Sketch6" plane through (0, -1.27, 0) normal (0, -1, 0) x (1, 0, 0)
  line L0 (-0.3048, 0.3048) -> (-0.3048, -0.3048) projected
  line L1 (0.3175, -0.3175) -> (-0.3048, -0.3175)
  line L2 (-0.3048, -0.3175) -> (-0.3048, 0.3048)
  line L3 (-0.3048, 0.3048) -> (0.3175, 0.3048)
  line L4 (0.3175, 0.3048) -> (0.3175, -0.3175)
  line L5 (0.3175, -0.3175) -> (-0.3048, 0.3048) construction
  line L6 (-0.3048, -0.3175) -> (0.3175, 0.3048) construction
  line L7 (1.27, -0.762) -> (1.27, 0.762) construction
  line L8 (0.3175, -2.8575) -> (-0.3048, -2.8575)
  line L9 (-0.3048, -2.8575) -> (-0.3048, -2.2352)
  line L10 (-0.3048, -2.2352) -> (0.3175, -2.2352)
  line L11 (0.3175, -2.2352) -> (0.3175, -2.8575)
  line L12 (0.3175, -2.8575) -> (-0.3048, -2.2352) construction
  line L13 (-0.3048, -2.8575) -> (0.3175, -2.2352) construction
  line L14 (0.3175, -5.3975) -> (-0.3048, -5.3975)
  line L15 (-0.3048, -5.3975) -> (-0.3048, -4.7752)
  line L16 (-0.3048, -4.7752) -> (0.3175, -4.7752)
  line L17 (0.3175, -4.7752) -> (0.3175, -5.3975)
  line L18 (0.3175, -5.3975) -> (-0.3048, -4.7752) construction
  line L19 (-0.3048, -5.3975) -> (0.3175, -4.7752) construction
  line L20 (0.3175, -7.9375) -> (-0.3048, -7.9375)
  line L21 (-0.3048, -7.9375) -> (-0.3048, -7.3152)
  line L22 (-0.3048, -7.3152) -> (0.3175, -7.3152)
  line L23 (0.3175, -7.3152) -> (0.3175, -7.9375)
  line L24 (0.3175, -7.9375) -> (-0.3048, -7.3152) construction
  line L25 (-0.3048, -7.9375) -> (0.3175, -7.3152) construction
  line L26 (0.3175, -10.4775) -> (-0.3048, -10.4775)
  line L27 (-0.3048, -10.4775) -> (-0.3048, -9.8552)
  line L28 (-0.3048, -9.8552) -> (0.3175, -9.8552)
  line L29 (0.3175, -9.8552) -> (0.3175, -10.4775)
  line L30 (0.3175, -10.4775) -> (-0.3048, -9.8552) construction
  line L31 (-0.3048, -10.4775) -> (0.3175, -9.8552) construction
  line L32 (0.3175, -13.0175) -> (-0.3048, -13.0175)
  line L33 (-0.3048, -13.0175) -> (-0.3048, -12.3952)
  line L34 (-0.3048, -12.3952) -> (0.3175, -12.3952)
  line L35 (0.3175, -12.3952) -> (0.3175, -13.0175)
  line L36 (0.3175, -13.0175) -> (-0.3048, -12.3952) construction
  line L37 (-0.3048, -13.0175) -> (0.3175, -12.3952) construction
  line L38 (0.3175, -15.5575) -> (-0.3048, -15.5575)
  line L39 (-0.3048, -15.5575) -> (-0.3048, -14.9352)
  line L40 (-0.3048, -14.9352) -> (0.3175, -14.9352)
  line L41 (0.3175, -14.9352) -> (0.3175, -15.5575)
  line L42 (0.3175, -15.5575) -> (-0.3048, -14.9352) construction
  line L43 (-0.3048, -15.5575) -> (0.3175, -14.9352) construction
  line L44 (0.3175, -18.0975) -> (-0.3048, -18.0975)
  line L45 (-0.3048, -18.0975) -> (-0.3048, -17.4752)
  line L46 (-0.3048, -17.4752) -> (0.3175, -17.4752)
  line L47 (0.3175, -17.4752) -> (0.3175, -18.0975)
  line L48 (0.3175, -18.0975) -> (-0.3048, -17.4752) construction
  line L49 (-0.3048, -18.0975) -> (0.3175, -17.4752) construction
  line L50 (0.3175, -20.6375) -> (-0.3048, -20.6375)
  line L51 (-0.3048, -20.6375) -> (-0.3048, -20.0152)
  line L52 (-0.3048, -20.0152) -> (0.3175, -20.0152)
  line L53 (0.3175, -20.0152) -> (0.3175, -20.6375)
  line L54 (0.3175, -20.6375) -> (-0.3048, -20.0152) construction
  line L55 (-0.3048, -20.6375) -> (0.3175, -20.0152) construction
  line L56 (0.3175, -23.1775) -> (-0.3048, -23.1775)
  line L57 (-0.3048, -23.1775) -> (-0.3048, -22.5552)
  line L58 (-0.3048, -22.5552) -> (0.3175, -22.5552)
  line L59 (0.3175, -22.5552) -> (0.3175, -23.1775)
  line L60 (0.3175, -23.1775) -> (-0.3048, -22.5552) construction
  line L61 (-0.3048, -23.1775) -> (0.3175, -22.5552) construction
  line L62 (0.3175, -25.7175) -> (-0.3048, -25.7175)
  line L63 (-0.3048, -25.7175) -> (-0.3048, -25.0952)
  line L64 (-0.3048, -25.0952) -> (0.3175, -25.0952)
  line L65 (0.3175, -25.0952) -> (0.3175, -25.7175)
  line L66 (0.3175, -25.7175) -> (-0.3048, -25.0952) construction
  line L67 (-0.3048, -25.7175) -> (0.3175, -25.0952) construction
  line L68 (0.3175, -28.2575) -> (-0.3048, -28.2575)
  line L69 (-0.3048, -28.2575) -> (-0.3048, -27.6352)
  line L70 (-0.3048, -27.6352) -> (0.3175, -27.6352)
  line L71 (0.3175, -27.6352) -> (0.3175, -28.2575)
  line L72 (0.3175, -28.2575) -> (-0.3048, -27.6352) construction
  line L73 (-0.3048, -28.2575) -> (0.3175, -27.6352) construction
  line L74 (0.3175, -30.7975) -> (-0.3048, -30.7975)
  line L75 (-0.3048, -30.7975) -> (-0.3048, -30.1752)
  line L76 (-0.3048, -30.1752) -> (0.3175, -30.1752)
  line L77 (0.3175, -30.1752) -> (0.3175, -30.7975)
  line L78 (0.3175, -30.7975) -> (-0.3048, -30.1752) construction
  line L79 (-0.3048, -30.7975) -> (0.3175, -30.1752) construction
  line L80 (0.3175, -33.3375) -> (-0.3048, -33.3375)
  line L81 (-0.3048, -33.3375) -> (-0.3048, -32.7152)
  line L82 (-0.3048, -32.7152) -> (0.3175, -32.7152)
  line L83 (0.3175, -32.7152) -> (0.3175, -33.3375)
  line L84 (0.3175, -33.3375) -> (-0.3048, -32.7152) construction
  line L85 (-0.3048, -33.3375) -> (0.3175, -32.7152) construction
  line L86 (0.3175, -35.8775) -> (-0.3048, -35.8775)
  line L87 (-0.3048, -35.8775) -> (-0.3048, -35.2552)
  line L88 (-0.3048, -35.2552) -> (0.3175, -35.2552)
  line L89 (0.3175, -35.2552) -> (0.3175, -35.8775)
  line L90 (0.3175, -35.8775) -> (-0.3048, -35.2552) construction
  line L91 (-0.3048, -35.8775) -> (0.3175, -35.2552) construction
  line L92 (0.3175, -38.4175) -> (-0.3048, -38.4175)
  line L93 (-0.3048, -38.4175) -> (-0.3048, -37.7952)
  line L94 (-0.3048, -37.7952) -> (0.3175, -37.7952)
  line L95 (0.3175, -37.7952) -> (0.3175, -38.4175)
  line L96 (0.3175, -38.4175) -> (-0.3048, -37.7952) construction
  line L97 (-0.3048, -38.4175) -> (0.3175, -37.7952) construction
  point P0 (0.0064, -0.0063)
  point P1 (-0.3048, -2.8448)
  point P2 (0.0064, -2.5463)
  point P3 (-0.3048, -5.3848)
  point P4 (0.0064, -5.0863)
  point P5 (-0.3048, -7.9248)
  point P6 (0.0064, -7.6263)
  point P7 (-0.3048, -10.4648)
  point P8 (0.0064, -10.1663)
  point P9 (-0.3048, -13.0048)
  point P10 (0.0064, -12.7064)
  point P11 (-0.3048, -15.5448)
  point P12 (0.0064, -15.2463)
  point P13 (-0.3048, -18.0848)
  point P14 (0.0064, -17.7863)
  point P15 (-0.3048, -20.6248)
  point P16 (0.0064, -20.3263)
  point P17 (-0.3048, -23.1648)
  point P18 (0.0064, -22.8664)
  point P19 (-0.3048, -25.7048)
  point P20 (0.0064, -25.4063)
  point P21 (-0.3048, -28.2448)
  point P22 (0.0064, -27.9463)
  point P23 (-0.3048, -30.7848)
  point P24 (0.0064, -30.4864)
  point P25 (-0.3048, -33.3248)
  point P26 (0.0064, -33.0264)
  point P27 (-0.3048, -35.8648)
  point P28 (0.0064, -35.5663)
  point P29 (-0.3048, -38.4048)
  point P30 (0.0064, -38.1063)
  dimension "d31" = 2.54
extrude "Extrusion3" add sketch "Sketch6" along normal blind 2.8956
chamfer "Chamfer4" distance 0.254 angle 45 64 edges at (0.0063, -4.1656, -18.0975) (0.0064, -4.1656, -17.4752) (-0.3048, -4.1656, -17.7863) (0.3175, -4.1656, -17.7863) (0.3175, -4.1656, -15.2463) (0.0064, -4.1656, -14.9352) (-0.3048, -4.1656, -15.2463) (0.0063, -4.1656, -15.5575) (0.0063, -4.1656, -23.1775) (0.3175, -4.1656, -22.8664) (0.0064, -4.1656, -22.5552) (-0.3048, -4.1656, -22.8664) (0.0063, -4.1656, -25.7175) (0.3175, -4.1656, -25.4064) (-0.3048, -4.1656, -25.4063) (0.0064, -4.1656, -25.0952) (0.0063, -4.1656, -28.2575) (0.3175, -4.1656, -27.9464) (0.0064, -4.1656, -27.6352) (-0.3048, -4.1656, -27.9463) (0.0063, -4.1656, -20.6375) (0.3175, -4.1656, -20.3264) (0.0064, -4.1656, -20.0152) (-0.3048, -4.1656, -20.3263) (0.0063, -4.1656, -30.7975) (0.3175, -4.1656, -30.4864) (-0.3048, -4.1656, -30.4864) (0.0064, -4.1656, -30.1752) (0.0063, -4.1656, -33.3375) (0.0064, -4.1656, -32.7152) (-0.3048, -4.1656, -33.0264) (0.3175, -4.1656, -33.0264) (0.0064, -4.1656, -35.2552) (0.3175, -4.1656, -35.5663) (-0.3048, -4.1656, -35.5663) (0.0063, -4.1656, -35.8775) (0.0063, -4.1656, -38.4175) (0.3175, -4.1656, -38.1064) (0.0064, -4.1656, -37.7952) (-0.3048, -4.1656, -38.1063) (0.0063, -4.1656, -13.0175) (0.3175, -4.1656, -12.7064) (0.0064, -4.1656, -12.3952) (-0.3048, -4.1656, -12.7064) (0.0063, -4.1656, -10.4775) (0.3175, -4.1656, -10.1663) (-0.3048, -4.1656, -10.1663) (0.0064, -4.1656, -9.8552) (0.0063, -4.1656, -7.9375) (0.3175, -4.1656, -7.6263) (0.0064, -4.1656, -7.3152) (-0.3048, -4.1656, -7.6263) (0.0063, -4.1656, -2.8575) (0.3175, -4.1656, -2.5463) (0.0064, -4.1656, -2.2352) (-0.3048, -4.1656, -2.5463) (0.0064, -4.1656, -4.7752) (0.3175, -4.1656, -5.0863) (0.0063, -4.1656, -5.3975) (-0.3048, -4.1656, -5.0863) (0.0063, -4.1656, -0.3175) (0.3175, -4.1656, -0.0063) (0.0064, -4.1656, 0.3048) (-0.3048, -4.1656, -0.0063)
sketch "Sketch9" plane through (1.27, -1.27, -0.762) normal (1, 0, 0) x (0, 0, -1)
  line L0 (0.508, 0) -> (0.508, 2.54) projected
  line L1 (38.608, -2.8956) -> (0.508, -2.8956)
  line L2 (0.508, -2.8956) -> (0.508, 8.382)
  line L3 (0.508, 8.382) -> (38.608, 8.382)
  line L4 (36.068, 0) -> (36.068, 2.54) projected
  line L5 (38.608, 2.54) -> (38.1, 2.54) projected
  line L6 (38.608, -2.8956) -> (38.608, 8.382)
  point P0 (-0.762, 1.27)
  point P1 (37.3888, 8.382)
  point P2 (37.4015, -2.8956)
extrude "Extrusion4" cut sketch "Sketch9" against normal through all
sketch "Sketch10" plane through (0, 7.112, 0) normal (0, 1, 0) x (1, 0, 0)
  point P0 (0, 0)
properties part number "1 pin header"
